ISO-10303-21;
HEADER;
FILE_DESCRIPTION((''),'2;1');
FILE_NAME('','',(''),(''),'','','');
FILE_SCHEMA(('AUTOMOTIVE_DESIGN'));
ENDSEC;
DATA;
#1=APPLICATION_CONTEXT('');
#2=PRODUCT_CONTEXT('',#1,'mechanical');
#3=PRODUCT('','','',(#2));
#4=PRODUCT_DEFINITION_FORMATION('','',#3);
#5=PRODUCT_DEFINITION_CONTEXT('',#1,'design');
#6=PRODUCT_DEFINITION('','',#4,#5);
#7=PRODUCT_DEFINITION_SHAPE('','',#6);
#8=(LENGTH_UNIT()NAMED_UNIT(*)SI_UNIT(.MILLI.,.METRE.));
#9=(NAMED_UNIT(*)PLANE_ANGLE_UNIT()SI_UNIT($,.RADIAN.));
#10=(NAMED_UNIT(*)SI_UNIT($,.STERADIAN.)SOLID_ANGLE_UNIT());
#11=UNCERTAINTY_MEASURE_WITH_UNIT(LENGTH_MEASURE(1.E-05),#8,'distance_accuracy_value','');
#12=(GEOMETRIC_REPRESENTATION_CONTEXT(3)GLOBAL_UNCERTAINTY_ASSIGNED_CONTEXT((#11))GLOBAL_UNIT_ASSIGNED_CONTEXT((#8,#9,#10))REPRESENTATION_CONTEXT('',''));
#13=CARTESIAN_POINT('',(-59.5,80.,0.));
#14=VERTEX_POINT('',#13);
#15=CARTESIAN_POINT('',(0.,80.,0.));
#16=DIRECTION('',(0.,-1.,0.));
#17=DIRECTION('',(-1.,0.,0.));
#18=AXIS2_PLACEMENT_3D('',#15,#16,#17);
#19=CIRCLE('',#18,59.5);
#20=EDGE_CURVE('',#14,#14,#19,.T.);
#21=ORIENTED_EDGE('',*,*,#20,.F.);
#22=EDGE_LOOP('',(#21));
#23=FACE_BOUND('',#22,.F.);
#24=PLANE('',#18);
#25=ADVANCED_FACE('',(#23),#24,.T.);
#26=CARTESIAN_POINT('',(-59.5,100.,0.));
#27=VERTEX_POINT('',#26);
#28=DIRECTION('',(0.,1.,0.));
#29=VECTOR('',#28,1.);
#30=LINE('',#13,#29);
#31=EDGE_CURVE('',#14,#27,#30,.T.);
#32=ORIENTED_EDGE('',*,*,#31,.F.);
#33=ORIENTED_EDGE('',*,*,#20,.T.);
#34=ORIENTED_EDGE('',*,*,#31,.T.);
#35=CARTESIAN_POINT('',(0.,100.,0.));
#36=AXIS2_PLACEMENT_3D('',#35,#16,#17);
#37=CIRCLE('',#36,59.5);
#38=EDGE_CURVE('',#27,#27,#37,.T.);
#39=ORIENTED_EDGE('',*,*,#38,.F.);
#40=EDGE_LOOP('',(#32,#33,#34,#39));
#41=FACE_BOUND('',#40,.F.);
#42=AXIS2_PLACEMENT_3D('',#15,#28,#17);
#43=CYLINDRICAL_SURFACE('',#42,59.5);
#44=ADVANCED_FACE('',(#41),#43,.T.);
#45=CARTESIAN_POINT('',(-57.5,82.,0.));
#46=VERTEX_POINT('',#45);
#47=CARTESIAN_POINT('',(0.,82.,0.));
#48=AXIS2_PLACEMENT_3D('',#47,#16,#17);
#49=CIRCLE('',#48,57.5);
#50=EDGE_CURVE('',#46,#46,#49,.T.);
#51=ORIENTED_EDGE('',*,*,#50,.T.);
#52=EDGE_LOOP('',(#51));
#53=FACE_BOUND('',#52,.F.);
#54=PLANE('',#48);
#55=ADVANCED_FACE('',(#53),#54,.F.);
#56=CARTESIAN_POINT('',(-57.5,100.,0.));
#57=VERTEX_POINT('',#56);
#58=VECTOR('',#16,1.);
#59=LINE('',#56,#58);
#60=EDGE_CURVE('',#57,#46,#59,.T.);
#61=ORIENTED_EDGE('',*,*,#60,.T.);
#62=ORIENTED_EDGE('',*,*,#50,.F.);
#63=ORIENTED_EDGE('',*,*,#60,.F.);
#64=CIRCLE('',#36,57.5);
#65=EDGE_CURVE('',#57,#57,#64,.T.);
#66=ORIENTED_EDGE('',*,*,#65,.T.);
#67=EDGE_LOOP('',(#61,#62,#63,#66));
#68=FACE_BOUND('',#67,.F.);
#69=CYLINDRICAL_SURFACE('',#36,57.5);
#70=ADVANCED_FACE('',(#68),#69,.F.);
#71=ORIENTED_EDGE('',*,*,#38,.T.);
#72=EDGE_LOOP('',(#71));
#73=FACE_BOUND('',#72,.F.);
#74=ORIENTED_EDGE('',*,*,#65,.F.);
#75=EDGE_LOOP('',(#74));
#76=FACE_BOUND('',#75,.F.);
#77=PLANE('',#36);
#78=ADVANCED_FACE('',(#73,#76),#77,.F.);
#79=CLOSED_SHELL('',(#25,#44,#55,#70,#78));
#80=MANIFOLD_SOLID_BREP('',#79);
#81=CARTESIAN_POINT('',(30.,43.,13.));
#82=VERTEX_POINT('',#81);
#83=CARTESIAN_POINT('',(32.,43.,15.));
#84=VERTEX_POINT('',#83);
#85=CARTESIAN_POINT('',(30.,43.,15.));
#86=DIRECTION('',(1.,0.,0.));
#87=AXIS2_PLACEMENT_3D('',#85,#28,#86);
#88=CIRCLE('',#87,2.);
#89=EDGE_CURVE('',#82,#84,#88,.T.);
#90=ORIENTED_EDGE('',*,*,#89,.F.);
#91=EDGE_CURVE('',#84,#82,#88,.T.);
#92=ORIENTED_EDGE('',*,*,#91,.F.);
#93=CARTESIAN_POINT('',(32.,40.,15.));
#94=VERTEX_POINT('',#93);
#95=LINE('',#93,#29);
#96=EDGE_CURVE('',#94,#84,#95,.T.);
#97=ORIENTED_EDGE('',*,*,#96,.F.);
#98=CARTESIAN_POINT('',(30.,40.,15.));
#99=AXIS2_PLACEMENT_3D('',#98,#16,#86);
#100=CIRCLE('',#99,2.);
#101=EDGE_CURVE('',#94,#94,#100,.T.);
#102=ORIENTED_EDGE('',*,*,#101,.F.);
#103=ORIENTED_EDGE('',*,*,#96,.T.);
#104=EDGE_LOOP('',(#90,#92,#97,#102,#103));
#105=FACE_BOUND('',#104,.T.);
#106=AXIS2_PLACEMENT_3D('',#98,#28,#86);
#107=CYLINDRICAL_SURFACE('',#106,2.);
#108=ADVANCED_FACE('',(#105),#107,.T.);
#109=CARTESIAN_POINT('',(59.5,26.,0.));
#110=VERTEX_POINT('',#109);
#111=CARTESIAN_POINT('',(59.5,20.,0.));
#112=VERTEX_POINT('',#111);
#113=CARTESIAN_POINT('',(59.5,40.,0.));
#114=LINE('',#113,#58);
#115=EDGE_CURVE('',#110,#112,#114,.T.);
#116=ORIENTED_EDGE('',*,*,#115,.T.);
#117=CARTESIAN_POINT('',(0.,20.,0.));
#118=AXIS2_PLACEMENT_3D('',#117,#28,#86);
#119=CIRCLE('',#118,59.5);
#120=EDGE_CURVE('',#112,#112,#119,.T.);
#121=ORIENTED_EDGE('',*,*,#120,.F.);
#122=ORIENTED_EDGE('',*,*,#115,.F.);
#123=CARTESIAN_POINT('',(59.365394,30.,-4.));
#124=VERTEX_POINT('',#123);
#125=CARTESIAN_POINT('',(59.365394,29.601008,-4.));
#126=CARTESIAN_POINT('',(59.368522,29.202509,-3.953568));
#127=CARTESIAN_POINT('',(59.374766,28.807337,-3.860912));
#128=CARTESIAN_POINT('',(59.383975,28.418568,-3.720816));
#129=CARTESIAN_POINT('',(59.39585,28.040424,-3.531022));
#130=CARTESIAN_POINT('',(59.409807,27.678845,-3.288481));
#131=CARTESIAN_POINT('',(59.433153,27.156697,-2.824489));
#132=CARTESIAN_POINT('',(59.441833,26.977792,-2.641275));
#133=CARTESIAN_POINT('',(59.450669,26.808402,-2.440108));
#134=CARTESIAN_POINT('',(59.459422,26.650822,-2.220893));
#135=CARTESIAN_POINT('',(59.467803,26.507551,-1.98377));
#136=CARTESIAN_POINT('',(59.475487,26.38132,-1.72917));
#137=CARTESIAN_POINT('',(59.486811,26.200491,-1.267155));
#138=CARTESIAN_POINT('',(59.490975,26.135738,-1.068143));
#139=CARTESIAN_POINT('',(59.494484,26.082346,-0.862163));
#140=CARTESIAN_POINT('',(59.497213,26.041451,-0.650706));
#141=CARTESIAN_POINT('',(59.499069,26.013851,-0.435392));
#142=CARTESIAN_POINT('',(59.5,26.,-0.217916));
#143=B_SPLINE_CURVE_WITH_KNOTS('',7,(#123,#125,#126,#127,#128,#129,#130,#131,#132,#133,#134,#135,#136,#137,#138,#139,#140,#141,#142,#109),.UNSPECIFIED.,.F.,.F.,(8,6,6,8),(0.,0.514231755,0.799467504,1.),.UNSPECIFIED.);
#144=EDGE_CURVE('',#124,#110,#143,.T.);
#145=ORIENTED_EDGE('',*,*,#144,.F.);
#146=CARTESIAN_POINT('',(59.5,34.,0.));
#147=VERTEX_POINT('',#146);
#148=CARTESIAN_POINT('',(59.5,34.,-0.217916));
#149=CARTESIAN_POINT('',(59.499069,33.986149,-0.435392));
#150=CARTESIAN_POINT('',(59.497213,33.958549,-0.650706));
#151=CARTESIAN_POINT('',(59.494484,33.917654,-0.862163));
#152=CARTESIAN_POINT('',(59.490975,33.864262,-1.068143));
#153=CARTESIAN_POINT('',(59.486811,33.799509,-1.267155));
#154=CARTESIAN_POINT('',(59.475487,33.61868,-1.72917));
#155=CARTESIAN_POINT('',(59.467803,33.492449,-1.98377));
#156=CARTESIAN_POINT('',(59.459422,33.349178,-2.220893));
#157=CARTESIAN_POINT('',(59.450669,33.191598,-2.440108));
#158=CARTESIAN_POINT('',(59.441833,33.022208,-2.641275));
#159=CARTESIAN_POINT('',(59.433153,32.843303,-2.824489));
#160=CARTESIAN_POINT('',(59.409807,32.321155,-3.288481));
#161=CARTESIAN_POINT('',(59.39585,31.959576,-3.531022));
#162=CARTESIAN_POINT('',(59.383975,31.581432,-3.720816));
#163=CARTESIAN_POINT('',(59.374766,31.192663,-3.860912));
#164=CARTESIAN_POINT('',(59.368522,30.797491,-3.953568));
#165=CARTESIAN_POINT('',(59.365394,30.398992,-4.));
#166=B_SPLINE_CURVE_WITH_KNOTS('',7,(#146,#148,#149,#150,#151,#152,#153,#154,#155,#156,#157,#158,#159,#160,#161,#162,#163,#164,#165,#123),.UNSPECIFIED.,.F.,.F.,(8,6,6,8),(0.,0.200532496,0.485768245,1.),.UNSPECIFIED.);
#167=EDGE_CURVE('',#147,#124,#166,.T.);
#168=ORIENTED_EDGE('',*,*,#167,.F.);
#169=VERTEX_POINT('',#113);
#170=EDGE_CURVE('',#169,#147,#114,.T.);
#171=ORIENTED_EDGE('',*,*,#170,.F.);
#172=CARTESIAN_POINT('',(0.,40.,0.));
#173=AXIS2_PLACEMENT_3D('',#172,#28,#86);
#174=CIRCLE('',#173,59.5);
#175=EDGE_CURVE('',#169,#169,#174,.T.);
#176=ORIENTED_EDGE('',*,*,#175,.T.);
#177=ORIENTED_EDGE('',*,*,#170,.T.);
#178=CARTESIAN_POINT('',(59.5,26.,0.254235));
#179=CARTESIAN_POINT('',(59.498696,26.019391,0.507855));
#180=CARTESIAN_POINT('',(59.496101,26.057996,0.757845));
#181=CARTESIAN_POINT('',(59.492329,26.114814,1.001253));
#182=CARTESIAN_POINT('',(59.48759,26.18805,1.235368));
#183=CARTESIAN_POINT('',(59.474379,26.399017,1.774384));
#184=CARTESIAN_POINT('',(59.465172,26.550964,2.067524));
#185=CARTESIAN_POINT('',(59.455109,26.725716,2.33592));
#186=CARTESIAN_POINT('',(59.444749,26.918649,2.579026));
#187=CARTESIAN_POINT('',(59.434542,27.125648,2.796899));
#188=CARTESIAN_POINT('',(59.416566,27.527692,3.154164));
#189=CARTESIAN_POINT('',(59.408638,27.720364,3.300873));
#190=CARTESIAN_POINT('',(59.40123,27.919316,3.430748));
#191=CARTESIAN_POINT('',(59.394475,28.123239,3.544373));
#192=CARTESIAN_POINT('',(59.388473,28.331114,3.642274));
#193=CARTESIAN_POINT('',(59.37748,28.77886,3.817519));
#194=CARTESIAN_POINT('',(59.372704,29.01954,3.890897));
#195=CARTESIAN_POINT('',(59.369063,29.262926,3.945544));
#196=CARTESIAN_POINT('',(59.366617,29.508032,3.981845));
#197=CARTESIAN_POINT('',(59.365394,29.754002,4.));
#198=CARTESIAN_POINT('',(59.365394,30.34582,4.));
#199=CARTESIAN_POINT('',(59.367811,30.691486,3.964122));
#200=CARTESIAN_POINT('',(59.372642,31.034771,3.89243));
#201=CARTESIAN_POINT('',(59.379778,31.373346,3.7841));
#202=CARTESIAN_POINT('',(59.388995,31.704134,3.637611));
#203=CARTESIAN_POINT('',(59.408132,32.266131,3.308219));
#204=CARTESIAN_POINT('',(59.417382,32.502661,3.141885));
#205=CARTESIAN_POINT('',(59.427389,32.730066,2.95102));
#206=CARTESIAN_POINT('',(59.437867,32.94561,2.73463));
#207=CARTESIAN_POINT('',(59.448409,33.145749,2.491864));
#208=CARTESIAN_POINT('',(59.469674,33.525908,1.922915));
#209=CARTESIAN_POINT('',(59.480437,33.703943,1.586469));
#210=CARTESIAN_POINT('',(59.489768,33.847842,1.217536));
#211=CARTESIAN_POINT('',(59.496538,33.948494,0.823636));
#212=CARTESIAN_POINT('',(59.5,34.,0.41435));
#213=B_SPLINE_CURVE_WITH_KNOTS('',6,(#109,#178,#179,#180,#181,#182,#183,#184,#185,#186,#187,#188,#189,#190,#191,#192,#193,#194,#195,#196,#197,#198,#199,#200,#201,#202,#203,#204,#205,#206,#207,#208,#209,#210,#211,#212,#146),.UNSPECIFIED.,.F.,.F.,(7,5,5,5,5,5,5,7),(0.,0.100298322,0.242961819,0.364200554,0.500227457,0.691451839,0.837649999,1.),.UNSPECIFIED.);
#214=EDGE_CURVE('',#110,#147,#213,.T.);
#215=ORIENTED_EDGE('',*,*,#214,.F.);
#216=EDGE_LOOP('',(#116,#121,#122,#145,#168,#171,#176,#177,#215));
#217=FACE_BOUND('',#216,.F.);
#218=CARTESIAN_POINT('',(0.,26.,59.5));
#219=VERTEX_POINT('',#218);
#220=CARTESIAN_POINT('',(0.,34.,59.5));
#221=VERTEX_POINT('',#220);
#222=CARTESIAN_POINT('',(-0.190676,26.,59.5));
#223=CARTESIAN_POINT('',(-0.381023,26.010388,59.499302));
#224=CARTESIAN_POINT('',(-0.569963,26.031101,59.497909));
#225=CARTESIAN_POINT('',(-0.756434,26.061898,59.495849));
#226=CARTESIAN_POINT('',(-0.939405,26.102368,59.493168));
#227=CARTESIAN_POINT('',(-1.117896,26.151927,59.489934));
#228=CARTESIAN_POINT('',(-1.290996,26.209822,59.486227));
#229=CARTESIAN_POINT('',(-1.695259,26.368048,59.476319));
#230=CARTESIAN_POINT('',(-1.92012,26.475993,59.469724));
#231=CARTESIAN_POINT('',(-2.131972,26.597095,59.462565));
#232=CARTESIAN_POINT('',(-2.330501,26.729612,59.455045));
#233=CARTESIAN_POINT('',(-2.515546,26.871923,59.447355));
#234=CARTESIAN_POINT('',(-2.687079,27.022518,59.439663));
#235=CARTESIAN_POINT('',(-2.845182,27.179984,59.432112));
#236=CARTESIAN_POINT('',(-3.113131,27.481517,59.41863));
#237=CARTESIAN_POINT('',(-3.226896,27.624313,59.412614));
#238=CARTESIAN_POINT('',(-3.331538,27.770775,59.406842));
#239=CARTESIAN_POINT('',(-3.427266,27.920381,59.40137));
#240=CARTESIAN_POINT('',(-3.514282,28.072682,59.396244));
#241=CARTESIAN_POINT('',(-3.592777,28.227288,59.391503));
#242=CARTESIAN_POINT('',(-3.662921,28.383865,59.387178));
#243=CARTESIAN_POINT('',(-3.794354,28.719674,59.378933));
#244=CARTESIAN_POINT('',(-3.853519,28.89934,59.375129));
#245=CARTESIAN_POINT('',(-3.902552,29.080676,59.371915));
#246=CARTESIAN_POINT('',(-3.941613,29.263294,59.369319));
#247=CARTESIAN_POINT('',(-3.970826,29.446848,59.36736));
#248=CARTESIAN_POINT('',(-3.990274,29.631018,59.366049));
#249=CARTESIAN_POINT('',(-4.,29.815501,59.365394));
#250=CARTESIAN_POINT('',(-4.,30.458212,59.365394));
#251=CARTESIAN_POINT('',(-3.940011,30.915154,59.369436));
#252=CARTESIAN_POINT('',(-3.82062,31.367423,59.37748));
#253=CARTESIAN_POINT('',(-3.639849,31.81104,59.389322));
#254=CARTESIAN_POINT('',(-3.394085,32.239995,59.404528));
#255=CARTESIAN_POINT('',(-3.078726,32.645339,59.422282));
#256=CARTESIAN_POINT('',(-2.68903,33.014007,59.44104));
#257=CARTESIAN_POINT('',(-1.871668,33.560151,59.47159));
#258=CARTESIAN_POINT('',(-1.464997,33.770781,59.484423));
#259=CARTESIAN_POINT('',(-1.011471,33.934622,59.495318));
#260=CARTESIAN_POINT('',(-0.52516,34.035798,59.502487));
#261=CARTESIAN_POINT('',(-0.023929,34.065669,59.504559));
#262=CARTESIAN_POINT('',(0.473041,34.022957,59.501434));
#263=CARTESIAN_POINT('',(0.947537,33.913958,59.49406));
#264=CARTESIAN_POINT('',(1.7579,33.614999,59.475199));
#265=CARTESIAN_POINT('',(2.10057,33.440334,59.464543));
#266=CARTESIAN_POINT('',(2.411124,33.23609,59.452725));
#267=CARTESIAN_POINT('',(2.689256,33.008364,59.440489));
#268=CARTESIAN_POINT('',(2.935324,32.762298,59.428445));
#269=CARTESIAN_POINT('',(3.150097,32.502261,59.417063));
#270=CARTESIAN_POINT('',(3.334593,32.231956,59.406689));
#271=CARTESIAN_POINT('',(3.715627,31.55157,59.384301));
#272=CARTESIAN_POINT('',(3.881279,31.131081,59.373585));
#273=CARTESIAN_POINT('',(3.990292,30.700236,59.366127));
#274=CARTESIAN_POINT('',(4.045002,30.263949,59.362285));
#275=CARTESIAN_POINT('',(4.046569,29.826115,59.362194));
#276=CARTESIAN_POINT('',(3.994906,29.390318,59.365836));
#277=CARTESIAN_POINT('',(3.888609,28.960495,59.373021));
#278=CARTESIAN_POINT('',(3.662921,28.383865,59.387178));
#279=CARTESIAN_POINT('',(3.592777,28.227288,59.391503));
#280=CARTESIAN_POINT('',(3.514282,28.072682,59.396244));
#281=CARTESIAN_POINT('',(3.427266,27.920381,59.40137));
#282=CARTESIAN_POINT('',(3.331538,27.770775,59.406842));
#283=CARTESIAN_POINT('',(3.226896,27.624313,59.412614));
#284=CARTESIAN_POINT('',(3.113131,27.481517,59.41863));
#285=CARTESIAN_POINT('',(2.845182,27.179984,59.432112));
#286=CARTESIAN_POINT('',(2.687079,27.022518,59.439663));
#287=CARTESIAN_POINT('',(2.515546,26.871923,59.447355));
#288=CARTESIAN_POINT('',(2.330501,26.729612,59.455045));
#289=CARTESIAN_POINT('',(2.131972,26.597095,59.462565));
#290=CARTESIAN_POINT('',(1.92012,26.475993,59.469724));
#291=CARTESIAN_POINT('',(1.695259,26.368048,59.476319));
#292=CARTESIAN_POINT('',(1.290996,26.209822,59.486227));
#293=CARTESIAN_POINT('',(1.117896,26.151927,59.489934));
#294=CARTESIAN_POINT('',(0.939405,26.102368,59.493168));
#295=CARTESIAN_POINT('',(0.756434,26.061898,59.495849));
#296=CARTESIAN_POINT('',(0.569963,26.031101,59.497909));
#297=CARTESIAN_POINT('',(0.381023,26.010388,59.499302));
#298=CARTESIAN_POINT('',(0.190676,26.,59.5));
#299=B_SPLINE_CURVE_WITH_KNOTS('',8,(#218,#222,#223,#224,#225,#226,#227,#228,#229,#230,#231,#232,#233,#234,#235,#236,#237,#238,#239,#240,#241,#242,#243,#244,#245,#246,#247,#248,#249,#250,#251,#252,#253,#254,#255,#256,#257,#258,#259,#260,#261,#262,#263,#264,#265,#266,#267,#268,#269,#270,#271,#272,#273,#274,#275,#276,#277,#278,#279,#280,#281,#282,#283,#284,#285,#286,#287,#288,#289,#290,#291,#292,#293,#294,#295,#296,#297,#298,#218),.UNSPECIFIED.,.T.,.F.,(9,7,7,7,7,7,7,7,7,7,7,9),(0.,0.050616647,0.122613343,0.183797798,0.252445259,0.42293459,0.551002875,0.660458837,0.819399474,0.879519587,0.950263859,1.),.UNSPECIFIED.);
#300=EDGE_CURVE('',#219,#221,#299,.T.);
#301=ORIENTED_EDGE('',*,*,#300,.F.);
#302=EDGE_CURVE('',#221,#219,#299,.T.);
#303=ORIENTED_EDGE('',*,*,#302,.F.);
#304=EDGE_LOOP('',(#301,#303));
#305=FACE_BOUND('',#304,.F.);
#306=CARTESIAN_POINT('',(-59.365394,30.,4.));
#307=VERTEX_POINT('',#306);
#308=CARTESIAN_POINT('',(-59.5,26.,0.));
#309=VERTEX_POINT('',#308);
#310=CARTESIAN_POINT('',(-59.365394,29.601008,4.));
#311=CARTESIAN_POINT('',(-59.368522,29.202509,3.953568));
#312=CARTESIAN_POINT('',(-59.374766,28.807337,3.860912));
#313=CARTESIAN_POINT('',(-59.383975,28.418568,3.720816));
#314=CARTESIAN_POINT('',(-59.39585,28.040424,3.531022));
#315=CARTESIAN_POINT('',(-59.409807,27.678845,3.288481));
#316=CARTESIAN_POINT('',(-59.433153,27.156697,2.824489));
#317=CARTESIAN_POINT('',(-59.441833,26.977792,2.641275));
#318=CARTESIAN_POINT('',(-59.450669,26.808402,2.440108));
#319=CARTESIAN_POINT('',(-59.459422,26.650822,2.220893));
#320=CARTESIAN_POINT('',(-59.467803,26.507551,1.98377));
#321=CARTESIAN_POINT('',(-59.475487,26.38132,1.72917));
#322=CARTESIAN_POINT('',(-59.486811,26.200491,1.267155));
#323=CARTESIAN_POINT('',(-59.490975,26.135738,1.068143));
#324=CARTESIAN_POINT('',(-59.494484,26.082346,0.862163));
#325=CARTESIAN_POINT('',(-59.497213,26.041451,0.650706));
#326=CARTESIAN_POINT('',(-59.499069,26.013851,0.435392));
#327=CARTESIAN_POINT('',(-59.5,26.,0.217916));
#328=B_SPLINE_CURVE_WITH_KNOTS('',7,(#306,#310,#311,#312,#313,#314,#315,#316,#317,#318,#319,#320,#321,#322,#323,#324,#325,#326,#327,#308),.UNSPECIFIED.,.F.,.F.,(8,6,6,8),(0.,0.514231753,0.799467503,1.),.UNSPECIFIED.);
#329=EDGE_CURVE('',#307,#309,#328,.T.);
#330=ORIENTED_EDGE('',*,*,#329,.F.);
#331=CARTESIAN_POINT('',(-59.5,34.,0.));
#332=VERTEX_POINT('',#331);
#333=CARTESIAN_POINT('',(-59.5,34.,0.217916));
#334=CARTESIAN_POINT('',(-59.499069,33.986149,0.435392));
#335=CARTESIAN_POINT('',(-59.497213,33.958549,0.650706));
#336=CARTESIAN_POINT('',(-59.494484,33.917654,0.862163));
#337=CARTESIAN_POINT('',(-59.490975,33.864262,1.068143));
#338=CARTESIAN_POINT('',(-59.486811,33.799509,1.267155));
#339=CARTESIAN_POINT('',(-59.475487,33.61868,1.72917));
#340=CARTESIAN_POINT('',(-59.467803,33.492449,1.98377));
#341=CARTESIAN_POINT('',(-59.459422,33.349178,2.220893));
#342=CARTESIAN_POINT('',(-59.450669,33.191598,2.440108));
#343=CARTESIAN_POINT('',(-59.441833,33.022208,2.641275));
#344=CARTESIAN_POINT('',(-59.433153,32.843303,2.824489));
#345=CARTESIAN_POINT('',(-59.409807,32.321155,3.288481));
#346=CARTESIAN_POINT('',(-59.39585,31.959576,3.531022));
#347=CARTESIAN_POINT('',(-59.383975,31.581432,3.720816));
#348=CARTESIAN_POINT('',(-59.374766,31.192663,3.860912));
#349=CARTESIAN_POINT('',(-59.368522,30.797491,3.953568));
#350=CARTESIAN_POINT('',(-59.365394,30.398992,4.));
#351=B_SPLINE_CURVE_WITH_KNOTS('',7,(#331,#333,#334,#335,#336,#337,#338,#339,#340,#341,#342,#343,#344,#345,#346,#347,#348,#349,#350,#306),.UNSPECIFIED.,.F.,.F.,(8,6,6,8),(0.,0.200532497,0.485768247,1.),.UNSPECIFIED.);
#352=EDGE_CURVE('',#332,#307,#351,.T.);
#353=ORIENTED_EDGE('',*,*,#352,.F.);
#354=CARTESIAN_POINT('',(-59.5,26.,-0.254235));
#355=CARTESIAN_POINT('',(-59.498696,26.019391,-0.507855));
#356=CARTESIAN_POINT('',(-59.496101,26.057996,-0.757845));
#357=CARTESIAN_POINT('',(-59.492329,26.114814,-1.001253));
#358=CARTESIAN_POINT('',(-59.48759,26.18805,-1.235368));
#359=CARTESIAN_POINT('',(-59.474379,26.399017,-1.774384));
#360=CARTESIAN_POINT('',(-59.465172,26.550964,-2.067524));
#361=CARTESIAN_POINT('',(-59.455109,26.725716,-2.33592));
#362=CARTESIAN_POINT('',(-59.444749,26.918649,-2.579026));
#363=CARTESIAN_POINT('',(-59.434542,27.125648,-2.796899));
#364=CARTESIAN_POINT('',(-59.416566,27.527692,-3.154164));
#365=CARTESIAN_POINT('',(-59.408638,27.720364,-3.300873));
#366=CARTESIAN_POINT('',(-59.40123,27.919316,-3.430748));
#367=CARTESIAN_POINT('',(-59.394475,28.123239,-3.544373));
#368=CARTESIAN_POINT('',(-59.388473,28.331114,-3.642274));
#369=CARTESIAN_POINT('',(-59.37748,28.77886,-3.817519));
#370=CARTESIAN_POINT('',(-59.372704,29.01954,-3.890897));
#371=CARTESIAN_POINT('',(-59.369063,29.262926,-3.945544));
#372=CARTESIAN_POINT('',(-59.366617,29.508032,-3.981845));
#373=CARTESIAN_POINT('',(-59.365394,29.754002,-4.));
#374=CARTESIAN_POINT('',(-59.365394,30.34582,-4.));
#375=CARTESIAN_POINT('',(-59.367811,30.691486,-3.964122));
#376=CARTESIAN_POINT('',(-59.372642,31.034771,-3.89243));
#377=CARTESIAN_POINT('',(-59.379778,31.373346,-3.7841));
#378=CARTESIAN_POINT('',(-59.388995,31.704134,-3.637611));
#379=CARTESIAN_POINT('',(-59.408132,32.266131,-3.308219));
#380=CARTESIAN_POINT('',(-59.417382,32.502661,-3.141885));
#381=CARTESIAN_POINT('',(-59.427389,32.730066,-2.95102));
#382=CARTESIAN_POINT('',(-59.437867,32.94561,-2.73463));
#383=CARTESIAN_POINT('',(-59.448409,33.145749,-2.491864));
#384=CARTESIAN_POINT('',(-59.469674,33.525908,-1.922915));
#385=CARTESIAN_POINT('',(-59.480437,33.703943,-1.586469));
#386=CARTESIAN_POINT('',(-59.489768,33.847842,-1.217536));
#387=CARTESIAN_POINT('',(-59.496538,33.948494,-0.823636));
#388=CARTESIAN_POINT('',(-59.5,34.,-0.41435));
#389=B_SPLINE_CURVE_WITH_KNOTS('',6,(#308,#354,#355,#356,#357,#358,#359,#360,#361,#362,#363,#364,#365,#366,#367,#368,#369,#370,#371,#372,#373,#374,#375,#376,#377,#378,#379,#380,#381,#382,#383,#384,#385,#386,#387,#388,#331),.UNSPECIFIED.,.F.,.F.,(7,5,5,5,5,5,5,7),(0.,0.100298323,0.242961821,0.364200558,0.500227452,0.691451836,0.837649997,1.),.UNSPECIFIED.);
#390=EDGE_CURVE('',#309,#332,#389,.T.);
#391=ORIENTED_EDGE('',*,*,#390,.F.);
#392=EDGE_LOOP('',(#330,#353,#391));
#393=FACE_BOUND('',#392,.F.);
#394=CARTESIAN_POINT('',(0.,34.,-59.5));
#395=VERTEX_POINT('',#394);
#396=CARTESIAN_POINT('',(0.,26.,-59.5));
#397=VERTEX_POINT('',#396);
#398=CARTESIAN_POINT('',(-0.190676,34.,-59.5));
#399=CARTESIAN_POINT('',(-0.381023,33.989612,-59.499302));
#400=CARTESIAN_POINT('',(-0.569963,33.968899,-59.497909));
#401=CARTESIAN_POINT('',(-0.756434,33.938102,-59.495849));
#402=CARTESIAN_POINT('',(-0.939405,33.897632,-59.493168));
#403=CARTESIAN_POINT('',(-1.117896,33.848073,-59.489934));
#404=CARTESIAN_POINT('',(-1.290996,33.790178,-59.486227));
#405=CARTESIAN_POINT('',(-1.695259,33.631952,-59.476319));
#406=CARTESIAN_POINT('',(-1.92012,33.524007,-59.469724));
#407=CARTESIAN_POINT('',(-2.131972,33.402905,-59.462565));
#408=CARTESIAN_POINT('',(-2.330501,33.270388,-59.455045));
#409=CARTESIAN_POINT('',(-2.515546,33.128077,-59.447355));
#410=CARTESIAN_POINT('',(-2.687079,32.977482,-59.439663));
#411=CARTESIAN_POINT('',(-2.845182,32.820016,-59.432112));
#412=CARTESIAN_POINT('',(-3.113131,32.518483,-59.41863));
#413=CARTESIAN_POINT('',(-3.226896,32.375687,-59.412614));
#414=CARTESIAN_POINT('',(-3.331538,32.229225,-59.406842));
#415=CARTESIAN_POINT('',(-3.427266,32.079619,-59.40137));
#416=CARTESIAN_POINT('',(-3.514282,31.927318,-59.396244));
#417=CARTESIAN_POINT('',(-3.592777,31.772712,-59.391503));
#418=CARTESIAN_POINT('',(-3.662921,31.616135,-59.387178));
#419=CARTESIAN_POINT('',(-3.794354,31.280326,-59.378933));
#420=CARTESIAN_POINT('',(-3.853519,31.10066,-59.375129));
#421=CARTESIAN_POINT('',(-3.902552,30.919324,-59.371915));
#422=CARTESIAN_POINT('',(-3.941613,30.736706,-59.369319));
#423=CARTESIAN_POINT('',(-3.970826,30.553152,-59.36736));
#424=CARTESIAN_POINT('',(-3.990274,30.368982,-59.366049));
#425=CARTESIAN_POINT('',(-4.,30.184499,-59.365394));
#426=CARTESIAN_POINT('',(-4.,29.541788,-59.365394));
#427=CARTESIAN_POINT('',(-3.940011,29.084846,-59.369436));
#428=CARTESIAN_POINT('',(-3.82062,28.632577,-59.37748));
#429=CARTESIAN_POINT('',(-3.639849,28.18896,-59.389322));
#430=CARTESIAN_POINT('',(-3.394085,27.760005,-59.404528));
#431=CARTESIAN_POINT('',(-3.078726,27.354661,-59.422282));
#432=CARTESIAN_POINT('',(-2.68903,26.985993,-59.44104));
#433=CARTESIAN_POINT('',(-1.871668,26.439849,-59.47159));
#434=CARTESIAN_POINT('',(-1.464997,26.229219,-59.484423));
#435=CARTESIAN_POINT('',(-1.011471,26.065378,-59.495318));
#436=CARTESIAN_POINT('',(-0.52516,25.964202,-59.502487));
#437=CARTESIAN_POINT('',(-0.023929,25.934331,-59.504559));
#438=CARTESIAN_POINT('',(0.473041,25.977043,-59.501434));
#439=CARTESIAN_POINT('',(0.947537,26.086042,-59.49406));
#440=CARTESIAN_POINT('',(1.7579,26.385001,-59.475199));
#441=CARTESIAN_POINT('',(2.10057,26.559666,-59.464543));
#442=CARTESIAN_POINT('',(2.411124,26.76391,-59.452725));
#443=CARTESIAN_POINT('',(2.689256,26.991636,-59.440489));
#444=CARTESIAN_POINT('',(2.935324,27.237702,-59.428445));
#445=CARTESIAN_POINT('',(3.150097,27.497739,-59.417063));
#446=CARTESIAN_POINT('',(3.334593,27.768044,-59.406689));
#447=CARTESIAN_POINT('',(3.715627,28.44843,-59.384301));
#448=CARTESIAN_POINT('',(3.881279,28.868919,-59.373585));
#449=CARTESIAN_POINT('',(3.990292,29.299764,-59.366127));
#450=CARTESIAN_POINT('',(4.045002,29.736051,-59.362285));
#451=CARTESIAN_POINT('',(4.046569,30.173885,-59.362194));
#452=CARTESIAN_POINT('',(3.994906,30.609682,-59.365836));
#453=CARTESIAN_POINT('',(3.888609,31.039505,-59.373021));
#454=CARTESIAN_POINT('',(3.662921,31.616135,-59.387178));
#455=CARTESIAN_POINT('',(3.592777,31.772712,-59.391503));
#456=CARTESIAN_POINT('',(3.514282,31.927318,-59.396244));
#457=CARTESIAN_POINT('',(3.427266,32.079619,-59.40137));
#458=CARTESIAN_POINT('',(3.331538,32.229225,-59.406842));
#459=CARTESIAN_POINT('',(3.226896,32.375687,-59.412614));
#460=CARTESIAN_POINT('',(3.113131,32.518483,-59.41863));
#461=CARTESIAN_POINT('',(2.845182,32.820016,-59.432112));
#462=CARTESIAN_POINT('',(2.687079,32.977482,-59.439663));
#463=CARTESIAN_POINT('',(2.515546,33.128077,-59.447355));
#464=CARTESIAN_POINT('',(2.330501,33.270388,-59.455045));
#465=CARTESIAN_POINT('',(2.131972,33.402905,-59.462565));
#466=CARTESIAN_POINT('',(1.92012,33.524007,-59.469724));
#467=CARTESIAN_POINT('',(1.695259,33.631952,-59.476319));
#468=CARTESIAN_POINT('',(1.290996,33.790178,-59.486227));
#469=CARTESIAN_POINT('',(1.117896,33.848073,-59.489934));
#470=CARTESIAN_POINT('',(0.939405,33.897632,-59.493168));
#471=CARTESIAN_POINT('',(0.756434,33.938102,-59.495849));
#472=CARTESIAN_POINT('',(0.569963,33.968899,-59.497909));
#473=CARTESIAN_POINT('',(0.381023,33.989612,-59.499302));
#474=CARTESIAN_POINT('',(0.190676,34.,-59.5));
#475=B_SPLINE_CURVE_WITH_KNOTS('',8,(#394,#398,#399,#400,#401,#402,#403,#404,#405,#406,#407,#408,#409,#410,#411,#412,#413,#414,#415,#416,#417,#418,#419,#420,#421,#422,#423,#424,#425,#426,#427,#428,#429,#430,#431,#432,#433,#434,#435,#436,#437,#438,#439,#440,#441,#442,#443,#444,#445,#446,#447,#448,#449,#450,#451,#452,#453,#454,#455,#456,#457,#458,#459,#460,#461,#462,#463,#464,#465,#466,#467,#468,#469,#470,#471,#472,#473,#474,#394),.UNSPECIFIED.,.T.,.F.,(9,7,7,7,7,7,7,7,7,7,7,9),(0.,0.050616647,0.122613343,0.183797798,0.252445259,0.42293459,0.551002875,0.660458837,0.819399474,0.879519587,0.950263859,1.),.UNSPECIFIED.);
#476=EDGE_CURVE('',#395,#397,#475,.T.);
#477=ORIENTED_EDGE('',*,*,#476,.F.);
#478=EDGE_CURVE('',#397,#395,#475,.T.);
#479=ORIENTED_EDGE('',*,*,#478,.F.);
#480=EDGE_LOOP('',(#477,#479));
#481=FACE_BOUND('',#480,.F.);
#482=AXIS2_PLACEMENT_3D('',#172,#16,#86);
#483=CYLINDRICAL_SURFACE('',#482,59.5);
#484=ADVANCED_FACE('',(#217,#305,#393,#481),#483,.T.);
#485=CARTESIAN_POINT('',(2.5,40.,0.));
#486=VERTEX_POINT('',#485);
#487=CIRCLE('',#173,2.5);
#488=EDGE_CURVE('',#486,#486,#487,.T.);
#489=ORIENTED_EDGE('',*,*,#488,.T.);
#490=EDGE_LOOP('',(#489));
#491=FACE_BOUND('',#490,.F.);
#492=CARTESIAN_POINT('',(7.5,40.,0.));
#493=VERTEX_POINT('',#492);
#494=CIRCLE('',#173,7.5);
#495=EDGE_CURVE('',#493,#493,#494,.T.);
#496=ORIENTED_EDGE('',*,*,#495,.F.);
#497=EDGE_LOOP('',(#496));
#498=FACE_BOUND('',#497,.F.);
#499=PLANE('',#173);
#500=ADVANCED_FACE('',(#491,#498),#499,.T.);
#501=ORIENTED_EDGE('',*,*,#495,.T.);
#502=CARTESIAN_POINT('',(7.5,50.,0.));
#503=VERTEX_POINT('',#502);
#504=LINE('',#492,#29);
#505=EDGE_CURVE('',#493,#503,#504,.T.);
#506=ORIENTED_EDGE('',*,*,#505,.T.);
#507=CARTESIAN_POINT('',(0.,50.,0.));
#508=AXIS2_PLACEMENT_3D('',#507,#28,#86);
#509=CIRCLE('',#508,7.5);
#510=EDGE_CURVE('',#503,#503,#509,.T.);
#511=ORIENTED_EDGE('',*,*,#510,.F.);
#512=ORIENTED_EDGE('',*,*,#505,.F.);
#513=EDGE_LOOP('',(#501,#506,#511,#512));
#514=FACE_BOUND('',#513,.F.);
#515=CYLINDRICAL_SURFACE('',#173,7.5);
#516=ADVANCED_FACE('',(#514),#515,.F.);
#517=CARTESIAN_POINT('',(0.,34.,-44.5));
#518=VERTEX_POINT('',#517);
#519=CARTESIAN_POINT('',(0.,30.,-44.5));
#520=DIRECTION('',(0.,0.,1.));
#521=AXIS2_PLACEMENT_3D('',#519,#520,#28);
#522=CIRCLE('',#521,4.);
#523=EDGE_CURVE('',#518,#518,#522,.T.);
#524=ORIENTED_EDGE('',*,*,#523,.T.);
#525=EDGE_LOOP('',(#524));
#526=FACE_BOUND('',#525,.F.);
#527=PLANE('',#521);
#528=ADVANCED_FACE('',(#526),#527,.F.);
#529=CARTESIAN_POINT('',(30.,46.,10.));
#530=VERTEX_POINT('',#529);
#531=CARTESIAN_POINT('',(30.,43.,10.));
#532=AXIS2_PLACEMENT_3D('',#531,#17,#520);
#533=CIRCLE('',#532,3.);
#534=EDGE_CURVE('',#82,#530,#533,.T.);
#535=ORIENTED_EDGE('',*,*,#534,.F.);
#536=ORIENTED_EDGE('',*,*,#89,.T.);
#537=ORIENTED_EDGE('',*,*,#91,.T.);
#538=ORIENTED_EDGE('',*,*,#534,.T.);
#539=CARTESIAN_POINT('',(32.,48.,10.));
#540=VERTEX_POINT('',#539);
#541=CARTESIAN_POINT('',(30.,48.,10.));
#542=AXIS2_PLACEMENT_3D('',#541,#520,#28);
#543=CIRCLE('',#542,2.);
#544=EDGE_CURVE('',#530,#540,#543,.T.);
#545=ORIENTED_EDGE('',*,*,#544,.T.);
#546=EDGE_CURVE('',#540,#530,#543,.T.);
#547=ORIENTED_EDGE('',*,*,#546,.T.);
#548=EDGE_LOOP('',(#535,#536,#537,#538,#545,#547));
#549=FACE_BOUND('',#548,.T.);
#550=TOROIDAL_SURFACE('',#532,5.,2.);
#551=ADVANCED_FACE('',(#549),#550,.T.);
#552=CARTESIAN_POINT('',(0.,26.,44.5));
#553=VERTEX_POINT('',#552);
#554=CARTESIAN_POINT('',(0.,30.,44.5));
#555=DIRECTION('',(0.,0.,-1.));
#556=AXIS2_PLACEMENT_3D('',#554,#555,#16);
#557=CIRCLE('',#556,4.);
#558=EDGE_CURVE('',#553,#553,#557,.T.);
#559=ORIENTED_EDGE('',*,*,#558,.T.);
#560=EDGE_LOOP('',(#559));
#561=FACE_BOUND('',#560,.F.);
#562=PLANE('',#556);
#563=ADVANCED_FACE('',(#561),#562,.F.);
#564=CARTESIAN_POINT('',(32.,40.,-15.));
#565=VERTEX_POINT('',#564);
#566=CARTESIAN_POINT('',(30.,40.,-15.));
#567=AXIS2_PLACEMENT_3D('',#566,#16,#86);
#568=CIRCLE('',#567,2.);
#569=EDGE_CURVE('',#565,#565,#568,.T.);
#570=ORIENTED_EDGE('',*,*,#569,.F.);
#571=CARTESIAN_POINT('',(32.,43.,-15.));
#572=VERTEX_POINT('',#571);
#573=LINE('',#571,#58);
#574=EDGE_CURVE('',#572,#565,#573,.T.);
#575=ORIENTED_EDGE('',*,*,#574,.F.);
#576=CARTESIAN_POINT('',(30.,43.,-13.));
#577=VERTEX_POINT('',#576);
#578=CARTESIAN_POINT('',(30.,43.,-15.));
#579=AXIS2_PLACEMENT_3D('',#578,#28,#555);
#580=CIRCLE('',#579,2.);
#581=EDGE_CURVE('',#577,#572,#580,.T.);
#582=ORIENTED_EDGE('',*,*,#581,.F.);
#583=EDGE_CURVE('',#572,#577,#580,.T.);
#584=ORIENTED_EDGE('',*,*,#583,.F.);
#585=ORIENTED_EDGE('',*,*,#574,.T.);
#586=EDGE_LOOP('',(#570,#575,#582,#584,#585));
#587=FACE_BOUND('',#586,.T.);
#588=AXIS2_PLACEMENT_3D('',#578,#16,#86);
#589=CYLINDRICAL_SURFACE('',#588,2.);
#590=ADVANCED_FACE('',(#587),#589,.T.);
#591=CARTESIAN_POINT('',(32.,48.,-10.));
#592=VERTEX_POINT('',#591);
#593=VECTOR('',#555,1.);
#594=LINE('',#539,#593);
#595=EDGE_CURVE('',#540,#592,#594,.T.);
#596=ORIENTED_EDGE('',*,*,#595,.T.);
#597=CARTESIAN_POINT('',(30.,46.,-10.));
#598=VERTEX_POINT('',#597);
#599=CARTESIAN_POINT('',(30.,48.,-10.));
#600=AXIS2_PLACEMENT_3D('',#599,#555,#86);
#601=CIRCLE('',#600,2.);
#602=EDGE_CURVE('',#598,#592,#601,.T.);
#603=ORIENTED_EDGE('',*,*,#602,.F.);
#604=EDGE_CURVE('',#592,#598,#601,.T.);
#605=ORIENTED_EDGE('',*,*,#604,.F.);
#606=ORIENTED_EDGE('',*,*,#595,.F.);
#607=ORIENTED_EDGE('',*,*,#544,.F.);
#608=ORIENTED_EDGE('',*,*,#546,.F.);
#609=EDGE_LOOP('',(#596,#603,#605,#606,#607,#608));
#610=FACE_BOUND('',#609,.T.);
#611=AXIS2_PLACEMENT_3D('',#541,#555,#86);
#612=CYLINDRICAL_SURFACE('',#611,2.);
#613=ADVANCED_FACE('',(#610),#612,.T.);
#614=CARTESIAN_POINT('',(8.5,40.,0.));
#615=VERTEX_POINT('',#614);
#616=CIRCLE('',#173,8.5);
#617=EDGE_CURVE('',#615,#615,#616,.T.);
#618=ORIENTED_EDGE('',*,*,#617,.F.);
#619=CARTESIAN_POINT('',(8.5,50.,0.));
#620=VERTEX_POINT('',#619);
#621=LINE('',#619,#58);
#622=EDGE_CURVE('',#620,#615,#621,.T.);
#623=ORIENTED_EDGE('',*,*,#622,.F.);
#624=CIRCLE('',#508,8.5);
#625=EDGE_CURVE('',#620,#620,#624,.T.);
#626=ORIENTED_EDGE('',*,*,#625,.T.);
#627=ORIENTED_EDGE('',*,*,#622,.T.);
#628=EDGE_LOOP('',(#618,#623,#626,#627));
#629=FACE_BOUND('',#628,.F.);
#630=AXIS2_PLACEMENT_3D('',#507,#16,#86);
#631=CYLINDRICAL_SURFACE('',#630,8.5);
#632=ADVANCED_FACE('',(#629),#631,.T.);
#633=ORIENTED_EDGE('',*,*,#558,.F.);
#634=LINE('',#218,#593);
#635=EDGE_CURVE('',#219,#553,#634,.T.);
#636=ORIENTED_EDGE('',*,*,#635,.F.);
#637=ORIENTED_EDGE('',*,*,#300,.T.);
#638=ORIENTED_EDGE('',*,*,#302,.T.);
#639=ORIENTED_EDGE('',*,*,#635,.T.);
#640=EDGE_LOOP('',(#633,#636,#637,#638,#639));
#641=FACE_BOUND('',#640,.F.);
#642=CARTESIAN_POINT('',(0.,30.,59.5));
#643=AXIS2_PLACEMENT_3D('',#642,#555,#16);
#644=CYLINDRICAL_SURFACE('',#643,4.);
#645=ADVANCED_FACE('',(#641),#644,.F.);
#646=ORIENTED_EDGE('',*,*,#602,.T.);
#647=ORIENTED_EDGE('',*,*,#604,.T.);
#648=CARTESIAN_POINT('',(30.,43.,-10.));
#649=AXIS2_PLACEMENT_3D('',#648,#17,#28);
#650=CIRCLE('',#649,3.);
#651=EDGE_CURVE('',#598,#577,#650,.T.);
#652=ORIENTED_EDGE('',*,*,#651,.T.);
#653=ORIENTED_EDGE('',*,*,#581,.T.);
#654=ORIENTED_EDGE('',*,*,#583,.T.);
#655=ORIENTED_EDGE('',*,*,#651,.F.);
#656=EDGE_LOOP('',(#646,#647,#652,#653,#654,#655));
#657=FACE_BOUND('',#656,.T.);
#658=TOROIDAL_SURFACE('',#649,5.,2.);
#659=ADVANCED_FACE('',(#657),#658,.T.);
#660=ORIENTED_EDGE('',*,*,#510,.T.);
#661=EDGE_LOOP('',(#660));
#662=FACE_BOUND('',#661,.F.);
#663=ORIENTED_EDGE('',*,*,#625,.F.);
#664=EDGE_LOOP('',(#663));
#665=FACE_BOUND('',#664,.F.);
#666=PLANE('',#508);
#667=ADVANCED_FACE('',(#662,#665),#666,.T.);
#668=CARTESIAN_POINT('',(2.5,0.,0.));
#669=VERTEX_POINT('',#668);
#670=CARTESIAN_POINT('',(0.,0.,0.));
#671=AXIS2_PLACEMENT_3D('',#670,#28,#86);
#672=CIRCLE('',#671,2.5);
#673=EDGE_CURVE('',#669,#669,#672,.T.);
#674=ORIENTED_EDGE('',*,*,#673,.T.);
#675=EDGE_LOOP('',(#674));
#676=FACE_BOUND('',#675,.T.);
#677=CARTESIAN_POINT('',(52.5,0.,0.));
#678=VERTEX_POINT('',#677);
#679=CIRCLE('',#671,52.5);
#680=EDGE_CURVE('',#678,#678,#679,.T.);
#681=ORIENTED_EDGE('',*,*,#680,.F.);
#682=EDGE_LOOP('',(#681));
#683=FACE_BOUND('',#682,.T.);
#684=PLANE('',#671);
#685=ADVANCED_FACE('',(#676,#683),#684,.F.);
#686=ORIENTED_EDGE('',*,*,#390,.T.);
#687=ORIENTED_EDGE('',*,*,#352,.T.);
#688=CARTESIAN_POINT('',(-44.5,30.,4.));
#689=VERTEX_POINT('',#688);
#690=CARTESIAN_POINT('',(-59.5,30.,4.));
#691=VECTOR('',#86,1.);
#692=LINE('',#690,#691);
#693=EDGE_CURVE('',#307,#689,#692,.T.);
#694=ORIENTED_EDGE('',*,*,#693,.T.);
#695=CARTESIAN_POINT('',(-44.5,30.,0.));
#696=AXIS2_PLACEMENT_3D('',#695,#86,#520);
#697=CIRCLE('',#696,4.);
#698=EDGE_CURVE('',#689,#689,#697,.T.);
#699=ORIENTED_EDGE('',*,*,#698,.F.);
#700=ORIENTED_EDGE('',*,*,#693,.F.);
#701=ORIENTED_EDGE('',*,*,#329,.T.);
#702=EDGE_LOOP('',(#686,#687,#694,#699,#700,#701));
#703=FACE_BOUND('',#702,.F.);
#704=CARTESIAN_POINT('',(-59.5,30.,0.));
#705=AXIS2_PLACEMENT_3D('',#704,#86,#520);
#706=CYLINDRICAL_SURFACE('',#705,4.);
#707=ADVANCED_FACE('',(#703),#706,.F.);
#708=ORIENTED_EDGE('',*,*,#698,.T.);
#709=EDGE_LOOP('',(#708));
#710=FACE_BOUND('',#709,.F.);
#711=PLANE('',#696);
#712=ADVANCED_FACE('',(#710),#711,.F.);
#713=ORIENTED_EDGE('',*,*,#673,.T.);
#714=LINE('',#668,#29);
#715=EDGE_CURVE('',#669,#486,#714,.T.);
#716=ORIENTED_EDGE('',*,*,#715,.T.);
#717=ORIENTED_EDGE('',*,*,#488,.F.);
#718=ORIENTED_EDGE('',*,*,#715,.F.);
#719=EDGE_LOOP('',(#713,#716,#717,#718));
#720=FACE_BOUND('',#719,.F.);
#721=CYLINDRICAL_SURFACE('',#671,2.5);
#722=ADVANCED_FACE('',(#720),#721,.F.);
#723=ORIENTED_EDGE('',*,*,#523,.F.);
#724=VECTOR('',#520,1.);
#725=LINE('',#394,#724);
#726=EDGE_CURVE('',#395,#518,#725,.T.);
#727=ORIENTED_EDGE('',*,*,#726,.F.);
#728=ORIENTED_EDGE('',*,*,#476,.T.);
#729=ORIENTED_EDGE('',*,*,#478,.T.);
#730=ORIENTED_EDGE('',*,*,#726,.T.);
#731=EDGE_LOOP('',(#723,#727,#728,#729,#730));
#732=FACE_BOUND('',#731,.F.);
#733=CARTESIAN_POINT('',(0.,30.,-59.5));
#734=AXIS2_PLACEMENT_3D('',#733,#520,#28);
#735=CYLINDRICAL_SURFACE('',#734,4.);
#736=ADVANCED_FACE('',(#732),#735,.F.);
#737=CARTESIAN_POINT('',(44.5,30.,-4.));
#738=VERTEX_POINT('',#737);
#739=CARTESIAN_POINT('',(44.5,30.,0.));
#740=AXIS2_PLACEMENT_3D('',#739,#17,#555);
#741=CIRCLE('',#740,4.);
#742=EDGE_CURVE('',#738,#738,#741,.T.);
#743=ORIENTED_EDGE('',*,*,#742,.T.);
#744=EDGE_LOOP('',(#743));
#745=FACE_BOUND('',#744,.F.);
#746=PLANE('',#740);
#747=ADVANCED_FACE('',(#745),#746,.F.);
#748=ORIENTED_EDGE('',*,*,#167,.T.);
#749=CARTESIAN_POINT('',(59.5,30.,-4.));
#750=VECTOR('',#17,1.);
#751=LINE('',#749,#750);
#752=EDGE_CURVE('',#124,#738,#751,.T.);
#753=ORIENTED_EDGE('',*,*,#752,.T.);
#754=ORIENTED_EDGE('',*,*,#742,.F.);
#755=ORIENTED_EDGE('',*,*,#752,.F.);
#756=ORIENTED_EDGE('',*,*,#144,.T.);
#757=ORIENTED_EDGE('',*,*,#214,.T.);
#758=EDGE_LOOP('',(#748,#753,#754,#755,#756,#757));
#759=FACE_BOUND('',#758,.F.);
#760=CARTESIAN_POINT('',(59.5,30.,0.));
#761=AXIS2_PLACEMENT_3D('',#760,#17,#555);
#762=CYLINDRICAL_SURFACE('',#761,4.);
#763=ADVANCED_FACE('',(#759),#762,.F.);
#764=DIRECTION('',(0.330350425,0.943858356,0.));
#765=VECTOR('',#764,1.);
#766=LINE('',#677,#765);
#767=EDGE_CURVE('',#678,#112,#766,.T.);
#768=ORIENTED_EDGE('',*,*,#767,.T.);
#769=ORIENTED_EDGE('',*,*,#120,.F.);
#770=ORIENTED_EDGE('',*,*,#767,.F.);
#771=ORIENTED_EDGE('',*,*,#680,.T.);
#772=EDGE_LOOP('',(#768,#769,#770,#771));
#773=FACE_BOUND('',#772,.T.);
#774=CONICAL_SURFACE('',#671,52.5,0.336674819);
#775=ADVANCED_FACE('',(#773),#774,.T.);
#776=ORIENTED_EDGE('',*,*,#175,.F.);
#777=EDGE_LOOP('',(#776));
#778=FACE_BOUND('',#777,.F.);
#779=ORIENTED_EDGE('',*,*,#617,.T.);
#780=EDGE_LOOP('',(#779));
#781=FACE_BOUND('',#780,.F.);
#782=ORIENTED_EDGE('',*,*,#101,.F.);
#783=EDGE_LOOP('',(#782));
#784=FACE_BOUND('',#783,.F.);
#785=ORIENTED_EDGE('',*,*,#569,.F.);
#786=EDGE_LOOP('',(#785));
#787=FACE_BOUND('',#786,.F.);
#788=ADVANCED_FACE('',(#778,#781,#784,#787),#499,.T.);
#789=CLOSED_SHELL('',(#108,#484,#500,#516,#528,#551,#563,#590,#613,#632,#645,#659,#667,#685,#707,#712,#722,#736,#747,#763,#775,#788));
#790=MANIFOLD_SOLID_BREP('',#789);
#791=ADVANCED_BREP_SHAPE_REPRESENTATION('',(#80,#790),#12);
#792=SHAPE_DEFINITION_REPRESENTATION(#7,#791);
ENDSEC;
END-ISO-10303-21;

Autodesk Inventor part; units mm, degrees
sketch "Sketch1" plane through (0, 0, 0) normal (0, 0, 1) x (1, 0, 0)
  line L0 (0, 0) -> (2.5, 0)
  line L1 (2.5, 0) -> (2.5, 40)
  line L2 (2.5, 40) -> (7.5, 40)
  line L3 (7.5, 40) -> (7.5, 50)
  line L4 (7.5, 50) -> (8.5, 50)
  line L5 (8.5, 50) -> (8.5, 40)
  line L6 (8.5, 40) -> (59.5, 40)
  line L7 (59.5, 40) -> (59.5, 20)
  line L8 (2.5, 0) -> (52.5, 0)
  line L9 (52.5, 0) -> (59.5, 20)
  line L10 (0, 0) -> (0, 69.9438)
  dimension "d0" = 2.5
  dimension "d1" = 40
  dimension "d2" = 5
  dimension "d3" = 10
  dimension "d4" = 1
  dimension "d5" = 10
  dimension "d6" = 51
  dimension "d7" = 20
  dimension "d8" = 50
revolve "Revolution1" add sketch "Sketch1" angle 360 about axis through (0, 0, 0) along (0, 1, 0)
sketch "Sketch2" plane through (0, 0, 0) normal (1, 0, 0) x (0, 1, 0)
  point P0 (0, 0)
sketch "Sketch3" plane through (0, 0, 0) normal (1, 0, 0) x (0, 1, 0)
  point P0 (0, 0)
ref_plane "Work Plane1" through (59.5, 30, 0) normal (1, 0, 0) x (0, 1, 0)
sketch "Sketch4" plane through (59.5, 30, 0) normal (1, 0, 0) x (0, 1, 0)
  line L0 (-30, 0) -> (0, 0)
  dimension "d10" = 30
hole "Hole1" at (59.5, 30, 0) direction (-1, 0, 0) diameter 8 depth 15
thread "Thread1"
ref_plane "Work Plane2" through (0, 30, -59.5) normal (0, 0, 1) x (1, 0, 0)
sketch "Sketch5" plane through (0, 30, -59.5) normal (0, 0, 1) x (1, 0, 0)
  line L0 (0, -30) -> (0, 0)
  dimension "d20" = 30
hole "Hole2" at (0, 30, -59.5) direction (0, 0, 1) diameter 8 depth 15
thread "Thread2"
ref_plane "Work Plane3" through (-59.5, 30, 0) normal (1, 0, 0) x (0, 1, 0)
sketch "Sketch6" plane through (-59.5, 30, 0) normal (1, 0, 0) x (0, 1, 0)
  line L0 (-30, 0) -> (0, 0)
  dimension "d30" = 30
hole "Hole3" at (-59.5, 30, 0) direction (1, 0, 0) diameter 8 depth 15
ref_plane "Work Plane4" through (0, 30, 59.5) normal (0, 0, 1) x (1, 0, 0)
sketch "Sketch7" plane through (0, 30, 59.5) normal (0, 0, 1) x (1, 0, 0)
  line L0 (0, -30) -> (0, 0)
  dimension "d38" = 30
hole "Hole4" at (0, 30, 59.5) direction (0, 0, -1) diameter 8 depth 15
thread "Thread3"
thread "Thread4"
sketch "Sketch8" plane through (0, 40, 0) normal (0, 1, 0) x (1, 0, 0)
  line L0 (0, 0) -> (30, 0)
  line L1 (30, 0) -> (30, -15)
  circle A0 centre (30, -15) radius 2
  dimension "d50" = 30
  dimension "d51" = 15
  dimension "d52" = 4
sketch3d "3D Sketch1"
  line L0 (30, 40, 15) -> (30, 43, 15)
  arc A0 (30, 43, 15) -> (30, 48, 10) centre (30, 43, 10) ccw
  line L1 (30, 48, 10) -> (30, 48, -10)
  arc A1 (30, 48, -10) -> (30, 43, -15) centre (30, 43, -10) ccw
  line L2 (30, 43, -15) -> (30, 40, -15)
  dimension "d53" = 5
  dimension "d54" = 5
sweep "Sweep1" add profiles "Sketch8" path "3D Sketch1"
sketch "Sketch9" plane through (0, 40, 0) normal (0, 1, 0) x (1, 0, 0)
  point P0 (0, 0)
sketch "Sketch10" plane through (0, 40, 0) normal (0, 1, 0) x (1, 0, 0)
  point P0 (0, 0)
sketch "Sketch11" plane through (0, 40, 0) normal (0, 1, 0) x (1, 0, 0)
  point P0 (0, 0)
sketch3d "3D Sketch2"
ref_plane "Work Plane5" through (0, 80, 0) normal (0, 0, 1) x (1, 0, 0)
sketch "Sketch12" plane through (0, 80, 0) normal (0, 0, 1) x (1, 0, 0)
  line L0 (0, 0) -> (-59.5, 0)
  line L1 (-59.5, 0) -> (-59.5, 20)
  line L2 (-59.5, 20) -> (-57.5, 20)
  line L3 (-57.5, 20) -> (-57.5, 2)
  line L4 (-57.5, 2) -> (0, 2)
  line L5 (0, 2) -> (0, 0)
  point P0 (0, -80)
  dimension "d57" = 59.5
  dimension "d58" = 20
  dimension "d59" = 2
  dimension "d60" = 18
revolve "Revolution2" add sketch "Sketch12" angle 360 about axis through (0, 82, 0) along (0, -1, 0)
equation "\"d54\" = d53"
equation "\"BendRadius\" = Thickness"
equation "\"BendReliefWidth\" = Thickness"
equation "\"BendReliefDepth\" = 0.5 * Thickness"
equation "\"CornerReliefSize\" = 4 * Thickness"
equation "\"MinimumRemnant\" = 2 * Thickness"
equation "\"TransitionRadius\" = BendRadius"
equation "\"JacobiRadiusSize\" = BendRadius"
equation "\"GapSize\" = Thickness"
equation "\"Thickness\" = 0.5"
properties part number "bulkhead v2"
